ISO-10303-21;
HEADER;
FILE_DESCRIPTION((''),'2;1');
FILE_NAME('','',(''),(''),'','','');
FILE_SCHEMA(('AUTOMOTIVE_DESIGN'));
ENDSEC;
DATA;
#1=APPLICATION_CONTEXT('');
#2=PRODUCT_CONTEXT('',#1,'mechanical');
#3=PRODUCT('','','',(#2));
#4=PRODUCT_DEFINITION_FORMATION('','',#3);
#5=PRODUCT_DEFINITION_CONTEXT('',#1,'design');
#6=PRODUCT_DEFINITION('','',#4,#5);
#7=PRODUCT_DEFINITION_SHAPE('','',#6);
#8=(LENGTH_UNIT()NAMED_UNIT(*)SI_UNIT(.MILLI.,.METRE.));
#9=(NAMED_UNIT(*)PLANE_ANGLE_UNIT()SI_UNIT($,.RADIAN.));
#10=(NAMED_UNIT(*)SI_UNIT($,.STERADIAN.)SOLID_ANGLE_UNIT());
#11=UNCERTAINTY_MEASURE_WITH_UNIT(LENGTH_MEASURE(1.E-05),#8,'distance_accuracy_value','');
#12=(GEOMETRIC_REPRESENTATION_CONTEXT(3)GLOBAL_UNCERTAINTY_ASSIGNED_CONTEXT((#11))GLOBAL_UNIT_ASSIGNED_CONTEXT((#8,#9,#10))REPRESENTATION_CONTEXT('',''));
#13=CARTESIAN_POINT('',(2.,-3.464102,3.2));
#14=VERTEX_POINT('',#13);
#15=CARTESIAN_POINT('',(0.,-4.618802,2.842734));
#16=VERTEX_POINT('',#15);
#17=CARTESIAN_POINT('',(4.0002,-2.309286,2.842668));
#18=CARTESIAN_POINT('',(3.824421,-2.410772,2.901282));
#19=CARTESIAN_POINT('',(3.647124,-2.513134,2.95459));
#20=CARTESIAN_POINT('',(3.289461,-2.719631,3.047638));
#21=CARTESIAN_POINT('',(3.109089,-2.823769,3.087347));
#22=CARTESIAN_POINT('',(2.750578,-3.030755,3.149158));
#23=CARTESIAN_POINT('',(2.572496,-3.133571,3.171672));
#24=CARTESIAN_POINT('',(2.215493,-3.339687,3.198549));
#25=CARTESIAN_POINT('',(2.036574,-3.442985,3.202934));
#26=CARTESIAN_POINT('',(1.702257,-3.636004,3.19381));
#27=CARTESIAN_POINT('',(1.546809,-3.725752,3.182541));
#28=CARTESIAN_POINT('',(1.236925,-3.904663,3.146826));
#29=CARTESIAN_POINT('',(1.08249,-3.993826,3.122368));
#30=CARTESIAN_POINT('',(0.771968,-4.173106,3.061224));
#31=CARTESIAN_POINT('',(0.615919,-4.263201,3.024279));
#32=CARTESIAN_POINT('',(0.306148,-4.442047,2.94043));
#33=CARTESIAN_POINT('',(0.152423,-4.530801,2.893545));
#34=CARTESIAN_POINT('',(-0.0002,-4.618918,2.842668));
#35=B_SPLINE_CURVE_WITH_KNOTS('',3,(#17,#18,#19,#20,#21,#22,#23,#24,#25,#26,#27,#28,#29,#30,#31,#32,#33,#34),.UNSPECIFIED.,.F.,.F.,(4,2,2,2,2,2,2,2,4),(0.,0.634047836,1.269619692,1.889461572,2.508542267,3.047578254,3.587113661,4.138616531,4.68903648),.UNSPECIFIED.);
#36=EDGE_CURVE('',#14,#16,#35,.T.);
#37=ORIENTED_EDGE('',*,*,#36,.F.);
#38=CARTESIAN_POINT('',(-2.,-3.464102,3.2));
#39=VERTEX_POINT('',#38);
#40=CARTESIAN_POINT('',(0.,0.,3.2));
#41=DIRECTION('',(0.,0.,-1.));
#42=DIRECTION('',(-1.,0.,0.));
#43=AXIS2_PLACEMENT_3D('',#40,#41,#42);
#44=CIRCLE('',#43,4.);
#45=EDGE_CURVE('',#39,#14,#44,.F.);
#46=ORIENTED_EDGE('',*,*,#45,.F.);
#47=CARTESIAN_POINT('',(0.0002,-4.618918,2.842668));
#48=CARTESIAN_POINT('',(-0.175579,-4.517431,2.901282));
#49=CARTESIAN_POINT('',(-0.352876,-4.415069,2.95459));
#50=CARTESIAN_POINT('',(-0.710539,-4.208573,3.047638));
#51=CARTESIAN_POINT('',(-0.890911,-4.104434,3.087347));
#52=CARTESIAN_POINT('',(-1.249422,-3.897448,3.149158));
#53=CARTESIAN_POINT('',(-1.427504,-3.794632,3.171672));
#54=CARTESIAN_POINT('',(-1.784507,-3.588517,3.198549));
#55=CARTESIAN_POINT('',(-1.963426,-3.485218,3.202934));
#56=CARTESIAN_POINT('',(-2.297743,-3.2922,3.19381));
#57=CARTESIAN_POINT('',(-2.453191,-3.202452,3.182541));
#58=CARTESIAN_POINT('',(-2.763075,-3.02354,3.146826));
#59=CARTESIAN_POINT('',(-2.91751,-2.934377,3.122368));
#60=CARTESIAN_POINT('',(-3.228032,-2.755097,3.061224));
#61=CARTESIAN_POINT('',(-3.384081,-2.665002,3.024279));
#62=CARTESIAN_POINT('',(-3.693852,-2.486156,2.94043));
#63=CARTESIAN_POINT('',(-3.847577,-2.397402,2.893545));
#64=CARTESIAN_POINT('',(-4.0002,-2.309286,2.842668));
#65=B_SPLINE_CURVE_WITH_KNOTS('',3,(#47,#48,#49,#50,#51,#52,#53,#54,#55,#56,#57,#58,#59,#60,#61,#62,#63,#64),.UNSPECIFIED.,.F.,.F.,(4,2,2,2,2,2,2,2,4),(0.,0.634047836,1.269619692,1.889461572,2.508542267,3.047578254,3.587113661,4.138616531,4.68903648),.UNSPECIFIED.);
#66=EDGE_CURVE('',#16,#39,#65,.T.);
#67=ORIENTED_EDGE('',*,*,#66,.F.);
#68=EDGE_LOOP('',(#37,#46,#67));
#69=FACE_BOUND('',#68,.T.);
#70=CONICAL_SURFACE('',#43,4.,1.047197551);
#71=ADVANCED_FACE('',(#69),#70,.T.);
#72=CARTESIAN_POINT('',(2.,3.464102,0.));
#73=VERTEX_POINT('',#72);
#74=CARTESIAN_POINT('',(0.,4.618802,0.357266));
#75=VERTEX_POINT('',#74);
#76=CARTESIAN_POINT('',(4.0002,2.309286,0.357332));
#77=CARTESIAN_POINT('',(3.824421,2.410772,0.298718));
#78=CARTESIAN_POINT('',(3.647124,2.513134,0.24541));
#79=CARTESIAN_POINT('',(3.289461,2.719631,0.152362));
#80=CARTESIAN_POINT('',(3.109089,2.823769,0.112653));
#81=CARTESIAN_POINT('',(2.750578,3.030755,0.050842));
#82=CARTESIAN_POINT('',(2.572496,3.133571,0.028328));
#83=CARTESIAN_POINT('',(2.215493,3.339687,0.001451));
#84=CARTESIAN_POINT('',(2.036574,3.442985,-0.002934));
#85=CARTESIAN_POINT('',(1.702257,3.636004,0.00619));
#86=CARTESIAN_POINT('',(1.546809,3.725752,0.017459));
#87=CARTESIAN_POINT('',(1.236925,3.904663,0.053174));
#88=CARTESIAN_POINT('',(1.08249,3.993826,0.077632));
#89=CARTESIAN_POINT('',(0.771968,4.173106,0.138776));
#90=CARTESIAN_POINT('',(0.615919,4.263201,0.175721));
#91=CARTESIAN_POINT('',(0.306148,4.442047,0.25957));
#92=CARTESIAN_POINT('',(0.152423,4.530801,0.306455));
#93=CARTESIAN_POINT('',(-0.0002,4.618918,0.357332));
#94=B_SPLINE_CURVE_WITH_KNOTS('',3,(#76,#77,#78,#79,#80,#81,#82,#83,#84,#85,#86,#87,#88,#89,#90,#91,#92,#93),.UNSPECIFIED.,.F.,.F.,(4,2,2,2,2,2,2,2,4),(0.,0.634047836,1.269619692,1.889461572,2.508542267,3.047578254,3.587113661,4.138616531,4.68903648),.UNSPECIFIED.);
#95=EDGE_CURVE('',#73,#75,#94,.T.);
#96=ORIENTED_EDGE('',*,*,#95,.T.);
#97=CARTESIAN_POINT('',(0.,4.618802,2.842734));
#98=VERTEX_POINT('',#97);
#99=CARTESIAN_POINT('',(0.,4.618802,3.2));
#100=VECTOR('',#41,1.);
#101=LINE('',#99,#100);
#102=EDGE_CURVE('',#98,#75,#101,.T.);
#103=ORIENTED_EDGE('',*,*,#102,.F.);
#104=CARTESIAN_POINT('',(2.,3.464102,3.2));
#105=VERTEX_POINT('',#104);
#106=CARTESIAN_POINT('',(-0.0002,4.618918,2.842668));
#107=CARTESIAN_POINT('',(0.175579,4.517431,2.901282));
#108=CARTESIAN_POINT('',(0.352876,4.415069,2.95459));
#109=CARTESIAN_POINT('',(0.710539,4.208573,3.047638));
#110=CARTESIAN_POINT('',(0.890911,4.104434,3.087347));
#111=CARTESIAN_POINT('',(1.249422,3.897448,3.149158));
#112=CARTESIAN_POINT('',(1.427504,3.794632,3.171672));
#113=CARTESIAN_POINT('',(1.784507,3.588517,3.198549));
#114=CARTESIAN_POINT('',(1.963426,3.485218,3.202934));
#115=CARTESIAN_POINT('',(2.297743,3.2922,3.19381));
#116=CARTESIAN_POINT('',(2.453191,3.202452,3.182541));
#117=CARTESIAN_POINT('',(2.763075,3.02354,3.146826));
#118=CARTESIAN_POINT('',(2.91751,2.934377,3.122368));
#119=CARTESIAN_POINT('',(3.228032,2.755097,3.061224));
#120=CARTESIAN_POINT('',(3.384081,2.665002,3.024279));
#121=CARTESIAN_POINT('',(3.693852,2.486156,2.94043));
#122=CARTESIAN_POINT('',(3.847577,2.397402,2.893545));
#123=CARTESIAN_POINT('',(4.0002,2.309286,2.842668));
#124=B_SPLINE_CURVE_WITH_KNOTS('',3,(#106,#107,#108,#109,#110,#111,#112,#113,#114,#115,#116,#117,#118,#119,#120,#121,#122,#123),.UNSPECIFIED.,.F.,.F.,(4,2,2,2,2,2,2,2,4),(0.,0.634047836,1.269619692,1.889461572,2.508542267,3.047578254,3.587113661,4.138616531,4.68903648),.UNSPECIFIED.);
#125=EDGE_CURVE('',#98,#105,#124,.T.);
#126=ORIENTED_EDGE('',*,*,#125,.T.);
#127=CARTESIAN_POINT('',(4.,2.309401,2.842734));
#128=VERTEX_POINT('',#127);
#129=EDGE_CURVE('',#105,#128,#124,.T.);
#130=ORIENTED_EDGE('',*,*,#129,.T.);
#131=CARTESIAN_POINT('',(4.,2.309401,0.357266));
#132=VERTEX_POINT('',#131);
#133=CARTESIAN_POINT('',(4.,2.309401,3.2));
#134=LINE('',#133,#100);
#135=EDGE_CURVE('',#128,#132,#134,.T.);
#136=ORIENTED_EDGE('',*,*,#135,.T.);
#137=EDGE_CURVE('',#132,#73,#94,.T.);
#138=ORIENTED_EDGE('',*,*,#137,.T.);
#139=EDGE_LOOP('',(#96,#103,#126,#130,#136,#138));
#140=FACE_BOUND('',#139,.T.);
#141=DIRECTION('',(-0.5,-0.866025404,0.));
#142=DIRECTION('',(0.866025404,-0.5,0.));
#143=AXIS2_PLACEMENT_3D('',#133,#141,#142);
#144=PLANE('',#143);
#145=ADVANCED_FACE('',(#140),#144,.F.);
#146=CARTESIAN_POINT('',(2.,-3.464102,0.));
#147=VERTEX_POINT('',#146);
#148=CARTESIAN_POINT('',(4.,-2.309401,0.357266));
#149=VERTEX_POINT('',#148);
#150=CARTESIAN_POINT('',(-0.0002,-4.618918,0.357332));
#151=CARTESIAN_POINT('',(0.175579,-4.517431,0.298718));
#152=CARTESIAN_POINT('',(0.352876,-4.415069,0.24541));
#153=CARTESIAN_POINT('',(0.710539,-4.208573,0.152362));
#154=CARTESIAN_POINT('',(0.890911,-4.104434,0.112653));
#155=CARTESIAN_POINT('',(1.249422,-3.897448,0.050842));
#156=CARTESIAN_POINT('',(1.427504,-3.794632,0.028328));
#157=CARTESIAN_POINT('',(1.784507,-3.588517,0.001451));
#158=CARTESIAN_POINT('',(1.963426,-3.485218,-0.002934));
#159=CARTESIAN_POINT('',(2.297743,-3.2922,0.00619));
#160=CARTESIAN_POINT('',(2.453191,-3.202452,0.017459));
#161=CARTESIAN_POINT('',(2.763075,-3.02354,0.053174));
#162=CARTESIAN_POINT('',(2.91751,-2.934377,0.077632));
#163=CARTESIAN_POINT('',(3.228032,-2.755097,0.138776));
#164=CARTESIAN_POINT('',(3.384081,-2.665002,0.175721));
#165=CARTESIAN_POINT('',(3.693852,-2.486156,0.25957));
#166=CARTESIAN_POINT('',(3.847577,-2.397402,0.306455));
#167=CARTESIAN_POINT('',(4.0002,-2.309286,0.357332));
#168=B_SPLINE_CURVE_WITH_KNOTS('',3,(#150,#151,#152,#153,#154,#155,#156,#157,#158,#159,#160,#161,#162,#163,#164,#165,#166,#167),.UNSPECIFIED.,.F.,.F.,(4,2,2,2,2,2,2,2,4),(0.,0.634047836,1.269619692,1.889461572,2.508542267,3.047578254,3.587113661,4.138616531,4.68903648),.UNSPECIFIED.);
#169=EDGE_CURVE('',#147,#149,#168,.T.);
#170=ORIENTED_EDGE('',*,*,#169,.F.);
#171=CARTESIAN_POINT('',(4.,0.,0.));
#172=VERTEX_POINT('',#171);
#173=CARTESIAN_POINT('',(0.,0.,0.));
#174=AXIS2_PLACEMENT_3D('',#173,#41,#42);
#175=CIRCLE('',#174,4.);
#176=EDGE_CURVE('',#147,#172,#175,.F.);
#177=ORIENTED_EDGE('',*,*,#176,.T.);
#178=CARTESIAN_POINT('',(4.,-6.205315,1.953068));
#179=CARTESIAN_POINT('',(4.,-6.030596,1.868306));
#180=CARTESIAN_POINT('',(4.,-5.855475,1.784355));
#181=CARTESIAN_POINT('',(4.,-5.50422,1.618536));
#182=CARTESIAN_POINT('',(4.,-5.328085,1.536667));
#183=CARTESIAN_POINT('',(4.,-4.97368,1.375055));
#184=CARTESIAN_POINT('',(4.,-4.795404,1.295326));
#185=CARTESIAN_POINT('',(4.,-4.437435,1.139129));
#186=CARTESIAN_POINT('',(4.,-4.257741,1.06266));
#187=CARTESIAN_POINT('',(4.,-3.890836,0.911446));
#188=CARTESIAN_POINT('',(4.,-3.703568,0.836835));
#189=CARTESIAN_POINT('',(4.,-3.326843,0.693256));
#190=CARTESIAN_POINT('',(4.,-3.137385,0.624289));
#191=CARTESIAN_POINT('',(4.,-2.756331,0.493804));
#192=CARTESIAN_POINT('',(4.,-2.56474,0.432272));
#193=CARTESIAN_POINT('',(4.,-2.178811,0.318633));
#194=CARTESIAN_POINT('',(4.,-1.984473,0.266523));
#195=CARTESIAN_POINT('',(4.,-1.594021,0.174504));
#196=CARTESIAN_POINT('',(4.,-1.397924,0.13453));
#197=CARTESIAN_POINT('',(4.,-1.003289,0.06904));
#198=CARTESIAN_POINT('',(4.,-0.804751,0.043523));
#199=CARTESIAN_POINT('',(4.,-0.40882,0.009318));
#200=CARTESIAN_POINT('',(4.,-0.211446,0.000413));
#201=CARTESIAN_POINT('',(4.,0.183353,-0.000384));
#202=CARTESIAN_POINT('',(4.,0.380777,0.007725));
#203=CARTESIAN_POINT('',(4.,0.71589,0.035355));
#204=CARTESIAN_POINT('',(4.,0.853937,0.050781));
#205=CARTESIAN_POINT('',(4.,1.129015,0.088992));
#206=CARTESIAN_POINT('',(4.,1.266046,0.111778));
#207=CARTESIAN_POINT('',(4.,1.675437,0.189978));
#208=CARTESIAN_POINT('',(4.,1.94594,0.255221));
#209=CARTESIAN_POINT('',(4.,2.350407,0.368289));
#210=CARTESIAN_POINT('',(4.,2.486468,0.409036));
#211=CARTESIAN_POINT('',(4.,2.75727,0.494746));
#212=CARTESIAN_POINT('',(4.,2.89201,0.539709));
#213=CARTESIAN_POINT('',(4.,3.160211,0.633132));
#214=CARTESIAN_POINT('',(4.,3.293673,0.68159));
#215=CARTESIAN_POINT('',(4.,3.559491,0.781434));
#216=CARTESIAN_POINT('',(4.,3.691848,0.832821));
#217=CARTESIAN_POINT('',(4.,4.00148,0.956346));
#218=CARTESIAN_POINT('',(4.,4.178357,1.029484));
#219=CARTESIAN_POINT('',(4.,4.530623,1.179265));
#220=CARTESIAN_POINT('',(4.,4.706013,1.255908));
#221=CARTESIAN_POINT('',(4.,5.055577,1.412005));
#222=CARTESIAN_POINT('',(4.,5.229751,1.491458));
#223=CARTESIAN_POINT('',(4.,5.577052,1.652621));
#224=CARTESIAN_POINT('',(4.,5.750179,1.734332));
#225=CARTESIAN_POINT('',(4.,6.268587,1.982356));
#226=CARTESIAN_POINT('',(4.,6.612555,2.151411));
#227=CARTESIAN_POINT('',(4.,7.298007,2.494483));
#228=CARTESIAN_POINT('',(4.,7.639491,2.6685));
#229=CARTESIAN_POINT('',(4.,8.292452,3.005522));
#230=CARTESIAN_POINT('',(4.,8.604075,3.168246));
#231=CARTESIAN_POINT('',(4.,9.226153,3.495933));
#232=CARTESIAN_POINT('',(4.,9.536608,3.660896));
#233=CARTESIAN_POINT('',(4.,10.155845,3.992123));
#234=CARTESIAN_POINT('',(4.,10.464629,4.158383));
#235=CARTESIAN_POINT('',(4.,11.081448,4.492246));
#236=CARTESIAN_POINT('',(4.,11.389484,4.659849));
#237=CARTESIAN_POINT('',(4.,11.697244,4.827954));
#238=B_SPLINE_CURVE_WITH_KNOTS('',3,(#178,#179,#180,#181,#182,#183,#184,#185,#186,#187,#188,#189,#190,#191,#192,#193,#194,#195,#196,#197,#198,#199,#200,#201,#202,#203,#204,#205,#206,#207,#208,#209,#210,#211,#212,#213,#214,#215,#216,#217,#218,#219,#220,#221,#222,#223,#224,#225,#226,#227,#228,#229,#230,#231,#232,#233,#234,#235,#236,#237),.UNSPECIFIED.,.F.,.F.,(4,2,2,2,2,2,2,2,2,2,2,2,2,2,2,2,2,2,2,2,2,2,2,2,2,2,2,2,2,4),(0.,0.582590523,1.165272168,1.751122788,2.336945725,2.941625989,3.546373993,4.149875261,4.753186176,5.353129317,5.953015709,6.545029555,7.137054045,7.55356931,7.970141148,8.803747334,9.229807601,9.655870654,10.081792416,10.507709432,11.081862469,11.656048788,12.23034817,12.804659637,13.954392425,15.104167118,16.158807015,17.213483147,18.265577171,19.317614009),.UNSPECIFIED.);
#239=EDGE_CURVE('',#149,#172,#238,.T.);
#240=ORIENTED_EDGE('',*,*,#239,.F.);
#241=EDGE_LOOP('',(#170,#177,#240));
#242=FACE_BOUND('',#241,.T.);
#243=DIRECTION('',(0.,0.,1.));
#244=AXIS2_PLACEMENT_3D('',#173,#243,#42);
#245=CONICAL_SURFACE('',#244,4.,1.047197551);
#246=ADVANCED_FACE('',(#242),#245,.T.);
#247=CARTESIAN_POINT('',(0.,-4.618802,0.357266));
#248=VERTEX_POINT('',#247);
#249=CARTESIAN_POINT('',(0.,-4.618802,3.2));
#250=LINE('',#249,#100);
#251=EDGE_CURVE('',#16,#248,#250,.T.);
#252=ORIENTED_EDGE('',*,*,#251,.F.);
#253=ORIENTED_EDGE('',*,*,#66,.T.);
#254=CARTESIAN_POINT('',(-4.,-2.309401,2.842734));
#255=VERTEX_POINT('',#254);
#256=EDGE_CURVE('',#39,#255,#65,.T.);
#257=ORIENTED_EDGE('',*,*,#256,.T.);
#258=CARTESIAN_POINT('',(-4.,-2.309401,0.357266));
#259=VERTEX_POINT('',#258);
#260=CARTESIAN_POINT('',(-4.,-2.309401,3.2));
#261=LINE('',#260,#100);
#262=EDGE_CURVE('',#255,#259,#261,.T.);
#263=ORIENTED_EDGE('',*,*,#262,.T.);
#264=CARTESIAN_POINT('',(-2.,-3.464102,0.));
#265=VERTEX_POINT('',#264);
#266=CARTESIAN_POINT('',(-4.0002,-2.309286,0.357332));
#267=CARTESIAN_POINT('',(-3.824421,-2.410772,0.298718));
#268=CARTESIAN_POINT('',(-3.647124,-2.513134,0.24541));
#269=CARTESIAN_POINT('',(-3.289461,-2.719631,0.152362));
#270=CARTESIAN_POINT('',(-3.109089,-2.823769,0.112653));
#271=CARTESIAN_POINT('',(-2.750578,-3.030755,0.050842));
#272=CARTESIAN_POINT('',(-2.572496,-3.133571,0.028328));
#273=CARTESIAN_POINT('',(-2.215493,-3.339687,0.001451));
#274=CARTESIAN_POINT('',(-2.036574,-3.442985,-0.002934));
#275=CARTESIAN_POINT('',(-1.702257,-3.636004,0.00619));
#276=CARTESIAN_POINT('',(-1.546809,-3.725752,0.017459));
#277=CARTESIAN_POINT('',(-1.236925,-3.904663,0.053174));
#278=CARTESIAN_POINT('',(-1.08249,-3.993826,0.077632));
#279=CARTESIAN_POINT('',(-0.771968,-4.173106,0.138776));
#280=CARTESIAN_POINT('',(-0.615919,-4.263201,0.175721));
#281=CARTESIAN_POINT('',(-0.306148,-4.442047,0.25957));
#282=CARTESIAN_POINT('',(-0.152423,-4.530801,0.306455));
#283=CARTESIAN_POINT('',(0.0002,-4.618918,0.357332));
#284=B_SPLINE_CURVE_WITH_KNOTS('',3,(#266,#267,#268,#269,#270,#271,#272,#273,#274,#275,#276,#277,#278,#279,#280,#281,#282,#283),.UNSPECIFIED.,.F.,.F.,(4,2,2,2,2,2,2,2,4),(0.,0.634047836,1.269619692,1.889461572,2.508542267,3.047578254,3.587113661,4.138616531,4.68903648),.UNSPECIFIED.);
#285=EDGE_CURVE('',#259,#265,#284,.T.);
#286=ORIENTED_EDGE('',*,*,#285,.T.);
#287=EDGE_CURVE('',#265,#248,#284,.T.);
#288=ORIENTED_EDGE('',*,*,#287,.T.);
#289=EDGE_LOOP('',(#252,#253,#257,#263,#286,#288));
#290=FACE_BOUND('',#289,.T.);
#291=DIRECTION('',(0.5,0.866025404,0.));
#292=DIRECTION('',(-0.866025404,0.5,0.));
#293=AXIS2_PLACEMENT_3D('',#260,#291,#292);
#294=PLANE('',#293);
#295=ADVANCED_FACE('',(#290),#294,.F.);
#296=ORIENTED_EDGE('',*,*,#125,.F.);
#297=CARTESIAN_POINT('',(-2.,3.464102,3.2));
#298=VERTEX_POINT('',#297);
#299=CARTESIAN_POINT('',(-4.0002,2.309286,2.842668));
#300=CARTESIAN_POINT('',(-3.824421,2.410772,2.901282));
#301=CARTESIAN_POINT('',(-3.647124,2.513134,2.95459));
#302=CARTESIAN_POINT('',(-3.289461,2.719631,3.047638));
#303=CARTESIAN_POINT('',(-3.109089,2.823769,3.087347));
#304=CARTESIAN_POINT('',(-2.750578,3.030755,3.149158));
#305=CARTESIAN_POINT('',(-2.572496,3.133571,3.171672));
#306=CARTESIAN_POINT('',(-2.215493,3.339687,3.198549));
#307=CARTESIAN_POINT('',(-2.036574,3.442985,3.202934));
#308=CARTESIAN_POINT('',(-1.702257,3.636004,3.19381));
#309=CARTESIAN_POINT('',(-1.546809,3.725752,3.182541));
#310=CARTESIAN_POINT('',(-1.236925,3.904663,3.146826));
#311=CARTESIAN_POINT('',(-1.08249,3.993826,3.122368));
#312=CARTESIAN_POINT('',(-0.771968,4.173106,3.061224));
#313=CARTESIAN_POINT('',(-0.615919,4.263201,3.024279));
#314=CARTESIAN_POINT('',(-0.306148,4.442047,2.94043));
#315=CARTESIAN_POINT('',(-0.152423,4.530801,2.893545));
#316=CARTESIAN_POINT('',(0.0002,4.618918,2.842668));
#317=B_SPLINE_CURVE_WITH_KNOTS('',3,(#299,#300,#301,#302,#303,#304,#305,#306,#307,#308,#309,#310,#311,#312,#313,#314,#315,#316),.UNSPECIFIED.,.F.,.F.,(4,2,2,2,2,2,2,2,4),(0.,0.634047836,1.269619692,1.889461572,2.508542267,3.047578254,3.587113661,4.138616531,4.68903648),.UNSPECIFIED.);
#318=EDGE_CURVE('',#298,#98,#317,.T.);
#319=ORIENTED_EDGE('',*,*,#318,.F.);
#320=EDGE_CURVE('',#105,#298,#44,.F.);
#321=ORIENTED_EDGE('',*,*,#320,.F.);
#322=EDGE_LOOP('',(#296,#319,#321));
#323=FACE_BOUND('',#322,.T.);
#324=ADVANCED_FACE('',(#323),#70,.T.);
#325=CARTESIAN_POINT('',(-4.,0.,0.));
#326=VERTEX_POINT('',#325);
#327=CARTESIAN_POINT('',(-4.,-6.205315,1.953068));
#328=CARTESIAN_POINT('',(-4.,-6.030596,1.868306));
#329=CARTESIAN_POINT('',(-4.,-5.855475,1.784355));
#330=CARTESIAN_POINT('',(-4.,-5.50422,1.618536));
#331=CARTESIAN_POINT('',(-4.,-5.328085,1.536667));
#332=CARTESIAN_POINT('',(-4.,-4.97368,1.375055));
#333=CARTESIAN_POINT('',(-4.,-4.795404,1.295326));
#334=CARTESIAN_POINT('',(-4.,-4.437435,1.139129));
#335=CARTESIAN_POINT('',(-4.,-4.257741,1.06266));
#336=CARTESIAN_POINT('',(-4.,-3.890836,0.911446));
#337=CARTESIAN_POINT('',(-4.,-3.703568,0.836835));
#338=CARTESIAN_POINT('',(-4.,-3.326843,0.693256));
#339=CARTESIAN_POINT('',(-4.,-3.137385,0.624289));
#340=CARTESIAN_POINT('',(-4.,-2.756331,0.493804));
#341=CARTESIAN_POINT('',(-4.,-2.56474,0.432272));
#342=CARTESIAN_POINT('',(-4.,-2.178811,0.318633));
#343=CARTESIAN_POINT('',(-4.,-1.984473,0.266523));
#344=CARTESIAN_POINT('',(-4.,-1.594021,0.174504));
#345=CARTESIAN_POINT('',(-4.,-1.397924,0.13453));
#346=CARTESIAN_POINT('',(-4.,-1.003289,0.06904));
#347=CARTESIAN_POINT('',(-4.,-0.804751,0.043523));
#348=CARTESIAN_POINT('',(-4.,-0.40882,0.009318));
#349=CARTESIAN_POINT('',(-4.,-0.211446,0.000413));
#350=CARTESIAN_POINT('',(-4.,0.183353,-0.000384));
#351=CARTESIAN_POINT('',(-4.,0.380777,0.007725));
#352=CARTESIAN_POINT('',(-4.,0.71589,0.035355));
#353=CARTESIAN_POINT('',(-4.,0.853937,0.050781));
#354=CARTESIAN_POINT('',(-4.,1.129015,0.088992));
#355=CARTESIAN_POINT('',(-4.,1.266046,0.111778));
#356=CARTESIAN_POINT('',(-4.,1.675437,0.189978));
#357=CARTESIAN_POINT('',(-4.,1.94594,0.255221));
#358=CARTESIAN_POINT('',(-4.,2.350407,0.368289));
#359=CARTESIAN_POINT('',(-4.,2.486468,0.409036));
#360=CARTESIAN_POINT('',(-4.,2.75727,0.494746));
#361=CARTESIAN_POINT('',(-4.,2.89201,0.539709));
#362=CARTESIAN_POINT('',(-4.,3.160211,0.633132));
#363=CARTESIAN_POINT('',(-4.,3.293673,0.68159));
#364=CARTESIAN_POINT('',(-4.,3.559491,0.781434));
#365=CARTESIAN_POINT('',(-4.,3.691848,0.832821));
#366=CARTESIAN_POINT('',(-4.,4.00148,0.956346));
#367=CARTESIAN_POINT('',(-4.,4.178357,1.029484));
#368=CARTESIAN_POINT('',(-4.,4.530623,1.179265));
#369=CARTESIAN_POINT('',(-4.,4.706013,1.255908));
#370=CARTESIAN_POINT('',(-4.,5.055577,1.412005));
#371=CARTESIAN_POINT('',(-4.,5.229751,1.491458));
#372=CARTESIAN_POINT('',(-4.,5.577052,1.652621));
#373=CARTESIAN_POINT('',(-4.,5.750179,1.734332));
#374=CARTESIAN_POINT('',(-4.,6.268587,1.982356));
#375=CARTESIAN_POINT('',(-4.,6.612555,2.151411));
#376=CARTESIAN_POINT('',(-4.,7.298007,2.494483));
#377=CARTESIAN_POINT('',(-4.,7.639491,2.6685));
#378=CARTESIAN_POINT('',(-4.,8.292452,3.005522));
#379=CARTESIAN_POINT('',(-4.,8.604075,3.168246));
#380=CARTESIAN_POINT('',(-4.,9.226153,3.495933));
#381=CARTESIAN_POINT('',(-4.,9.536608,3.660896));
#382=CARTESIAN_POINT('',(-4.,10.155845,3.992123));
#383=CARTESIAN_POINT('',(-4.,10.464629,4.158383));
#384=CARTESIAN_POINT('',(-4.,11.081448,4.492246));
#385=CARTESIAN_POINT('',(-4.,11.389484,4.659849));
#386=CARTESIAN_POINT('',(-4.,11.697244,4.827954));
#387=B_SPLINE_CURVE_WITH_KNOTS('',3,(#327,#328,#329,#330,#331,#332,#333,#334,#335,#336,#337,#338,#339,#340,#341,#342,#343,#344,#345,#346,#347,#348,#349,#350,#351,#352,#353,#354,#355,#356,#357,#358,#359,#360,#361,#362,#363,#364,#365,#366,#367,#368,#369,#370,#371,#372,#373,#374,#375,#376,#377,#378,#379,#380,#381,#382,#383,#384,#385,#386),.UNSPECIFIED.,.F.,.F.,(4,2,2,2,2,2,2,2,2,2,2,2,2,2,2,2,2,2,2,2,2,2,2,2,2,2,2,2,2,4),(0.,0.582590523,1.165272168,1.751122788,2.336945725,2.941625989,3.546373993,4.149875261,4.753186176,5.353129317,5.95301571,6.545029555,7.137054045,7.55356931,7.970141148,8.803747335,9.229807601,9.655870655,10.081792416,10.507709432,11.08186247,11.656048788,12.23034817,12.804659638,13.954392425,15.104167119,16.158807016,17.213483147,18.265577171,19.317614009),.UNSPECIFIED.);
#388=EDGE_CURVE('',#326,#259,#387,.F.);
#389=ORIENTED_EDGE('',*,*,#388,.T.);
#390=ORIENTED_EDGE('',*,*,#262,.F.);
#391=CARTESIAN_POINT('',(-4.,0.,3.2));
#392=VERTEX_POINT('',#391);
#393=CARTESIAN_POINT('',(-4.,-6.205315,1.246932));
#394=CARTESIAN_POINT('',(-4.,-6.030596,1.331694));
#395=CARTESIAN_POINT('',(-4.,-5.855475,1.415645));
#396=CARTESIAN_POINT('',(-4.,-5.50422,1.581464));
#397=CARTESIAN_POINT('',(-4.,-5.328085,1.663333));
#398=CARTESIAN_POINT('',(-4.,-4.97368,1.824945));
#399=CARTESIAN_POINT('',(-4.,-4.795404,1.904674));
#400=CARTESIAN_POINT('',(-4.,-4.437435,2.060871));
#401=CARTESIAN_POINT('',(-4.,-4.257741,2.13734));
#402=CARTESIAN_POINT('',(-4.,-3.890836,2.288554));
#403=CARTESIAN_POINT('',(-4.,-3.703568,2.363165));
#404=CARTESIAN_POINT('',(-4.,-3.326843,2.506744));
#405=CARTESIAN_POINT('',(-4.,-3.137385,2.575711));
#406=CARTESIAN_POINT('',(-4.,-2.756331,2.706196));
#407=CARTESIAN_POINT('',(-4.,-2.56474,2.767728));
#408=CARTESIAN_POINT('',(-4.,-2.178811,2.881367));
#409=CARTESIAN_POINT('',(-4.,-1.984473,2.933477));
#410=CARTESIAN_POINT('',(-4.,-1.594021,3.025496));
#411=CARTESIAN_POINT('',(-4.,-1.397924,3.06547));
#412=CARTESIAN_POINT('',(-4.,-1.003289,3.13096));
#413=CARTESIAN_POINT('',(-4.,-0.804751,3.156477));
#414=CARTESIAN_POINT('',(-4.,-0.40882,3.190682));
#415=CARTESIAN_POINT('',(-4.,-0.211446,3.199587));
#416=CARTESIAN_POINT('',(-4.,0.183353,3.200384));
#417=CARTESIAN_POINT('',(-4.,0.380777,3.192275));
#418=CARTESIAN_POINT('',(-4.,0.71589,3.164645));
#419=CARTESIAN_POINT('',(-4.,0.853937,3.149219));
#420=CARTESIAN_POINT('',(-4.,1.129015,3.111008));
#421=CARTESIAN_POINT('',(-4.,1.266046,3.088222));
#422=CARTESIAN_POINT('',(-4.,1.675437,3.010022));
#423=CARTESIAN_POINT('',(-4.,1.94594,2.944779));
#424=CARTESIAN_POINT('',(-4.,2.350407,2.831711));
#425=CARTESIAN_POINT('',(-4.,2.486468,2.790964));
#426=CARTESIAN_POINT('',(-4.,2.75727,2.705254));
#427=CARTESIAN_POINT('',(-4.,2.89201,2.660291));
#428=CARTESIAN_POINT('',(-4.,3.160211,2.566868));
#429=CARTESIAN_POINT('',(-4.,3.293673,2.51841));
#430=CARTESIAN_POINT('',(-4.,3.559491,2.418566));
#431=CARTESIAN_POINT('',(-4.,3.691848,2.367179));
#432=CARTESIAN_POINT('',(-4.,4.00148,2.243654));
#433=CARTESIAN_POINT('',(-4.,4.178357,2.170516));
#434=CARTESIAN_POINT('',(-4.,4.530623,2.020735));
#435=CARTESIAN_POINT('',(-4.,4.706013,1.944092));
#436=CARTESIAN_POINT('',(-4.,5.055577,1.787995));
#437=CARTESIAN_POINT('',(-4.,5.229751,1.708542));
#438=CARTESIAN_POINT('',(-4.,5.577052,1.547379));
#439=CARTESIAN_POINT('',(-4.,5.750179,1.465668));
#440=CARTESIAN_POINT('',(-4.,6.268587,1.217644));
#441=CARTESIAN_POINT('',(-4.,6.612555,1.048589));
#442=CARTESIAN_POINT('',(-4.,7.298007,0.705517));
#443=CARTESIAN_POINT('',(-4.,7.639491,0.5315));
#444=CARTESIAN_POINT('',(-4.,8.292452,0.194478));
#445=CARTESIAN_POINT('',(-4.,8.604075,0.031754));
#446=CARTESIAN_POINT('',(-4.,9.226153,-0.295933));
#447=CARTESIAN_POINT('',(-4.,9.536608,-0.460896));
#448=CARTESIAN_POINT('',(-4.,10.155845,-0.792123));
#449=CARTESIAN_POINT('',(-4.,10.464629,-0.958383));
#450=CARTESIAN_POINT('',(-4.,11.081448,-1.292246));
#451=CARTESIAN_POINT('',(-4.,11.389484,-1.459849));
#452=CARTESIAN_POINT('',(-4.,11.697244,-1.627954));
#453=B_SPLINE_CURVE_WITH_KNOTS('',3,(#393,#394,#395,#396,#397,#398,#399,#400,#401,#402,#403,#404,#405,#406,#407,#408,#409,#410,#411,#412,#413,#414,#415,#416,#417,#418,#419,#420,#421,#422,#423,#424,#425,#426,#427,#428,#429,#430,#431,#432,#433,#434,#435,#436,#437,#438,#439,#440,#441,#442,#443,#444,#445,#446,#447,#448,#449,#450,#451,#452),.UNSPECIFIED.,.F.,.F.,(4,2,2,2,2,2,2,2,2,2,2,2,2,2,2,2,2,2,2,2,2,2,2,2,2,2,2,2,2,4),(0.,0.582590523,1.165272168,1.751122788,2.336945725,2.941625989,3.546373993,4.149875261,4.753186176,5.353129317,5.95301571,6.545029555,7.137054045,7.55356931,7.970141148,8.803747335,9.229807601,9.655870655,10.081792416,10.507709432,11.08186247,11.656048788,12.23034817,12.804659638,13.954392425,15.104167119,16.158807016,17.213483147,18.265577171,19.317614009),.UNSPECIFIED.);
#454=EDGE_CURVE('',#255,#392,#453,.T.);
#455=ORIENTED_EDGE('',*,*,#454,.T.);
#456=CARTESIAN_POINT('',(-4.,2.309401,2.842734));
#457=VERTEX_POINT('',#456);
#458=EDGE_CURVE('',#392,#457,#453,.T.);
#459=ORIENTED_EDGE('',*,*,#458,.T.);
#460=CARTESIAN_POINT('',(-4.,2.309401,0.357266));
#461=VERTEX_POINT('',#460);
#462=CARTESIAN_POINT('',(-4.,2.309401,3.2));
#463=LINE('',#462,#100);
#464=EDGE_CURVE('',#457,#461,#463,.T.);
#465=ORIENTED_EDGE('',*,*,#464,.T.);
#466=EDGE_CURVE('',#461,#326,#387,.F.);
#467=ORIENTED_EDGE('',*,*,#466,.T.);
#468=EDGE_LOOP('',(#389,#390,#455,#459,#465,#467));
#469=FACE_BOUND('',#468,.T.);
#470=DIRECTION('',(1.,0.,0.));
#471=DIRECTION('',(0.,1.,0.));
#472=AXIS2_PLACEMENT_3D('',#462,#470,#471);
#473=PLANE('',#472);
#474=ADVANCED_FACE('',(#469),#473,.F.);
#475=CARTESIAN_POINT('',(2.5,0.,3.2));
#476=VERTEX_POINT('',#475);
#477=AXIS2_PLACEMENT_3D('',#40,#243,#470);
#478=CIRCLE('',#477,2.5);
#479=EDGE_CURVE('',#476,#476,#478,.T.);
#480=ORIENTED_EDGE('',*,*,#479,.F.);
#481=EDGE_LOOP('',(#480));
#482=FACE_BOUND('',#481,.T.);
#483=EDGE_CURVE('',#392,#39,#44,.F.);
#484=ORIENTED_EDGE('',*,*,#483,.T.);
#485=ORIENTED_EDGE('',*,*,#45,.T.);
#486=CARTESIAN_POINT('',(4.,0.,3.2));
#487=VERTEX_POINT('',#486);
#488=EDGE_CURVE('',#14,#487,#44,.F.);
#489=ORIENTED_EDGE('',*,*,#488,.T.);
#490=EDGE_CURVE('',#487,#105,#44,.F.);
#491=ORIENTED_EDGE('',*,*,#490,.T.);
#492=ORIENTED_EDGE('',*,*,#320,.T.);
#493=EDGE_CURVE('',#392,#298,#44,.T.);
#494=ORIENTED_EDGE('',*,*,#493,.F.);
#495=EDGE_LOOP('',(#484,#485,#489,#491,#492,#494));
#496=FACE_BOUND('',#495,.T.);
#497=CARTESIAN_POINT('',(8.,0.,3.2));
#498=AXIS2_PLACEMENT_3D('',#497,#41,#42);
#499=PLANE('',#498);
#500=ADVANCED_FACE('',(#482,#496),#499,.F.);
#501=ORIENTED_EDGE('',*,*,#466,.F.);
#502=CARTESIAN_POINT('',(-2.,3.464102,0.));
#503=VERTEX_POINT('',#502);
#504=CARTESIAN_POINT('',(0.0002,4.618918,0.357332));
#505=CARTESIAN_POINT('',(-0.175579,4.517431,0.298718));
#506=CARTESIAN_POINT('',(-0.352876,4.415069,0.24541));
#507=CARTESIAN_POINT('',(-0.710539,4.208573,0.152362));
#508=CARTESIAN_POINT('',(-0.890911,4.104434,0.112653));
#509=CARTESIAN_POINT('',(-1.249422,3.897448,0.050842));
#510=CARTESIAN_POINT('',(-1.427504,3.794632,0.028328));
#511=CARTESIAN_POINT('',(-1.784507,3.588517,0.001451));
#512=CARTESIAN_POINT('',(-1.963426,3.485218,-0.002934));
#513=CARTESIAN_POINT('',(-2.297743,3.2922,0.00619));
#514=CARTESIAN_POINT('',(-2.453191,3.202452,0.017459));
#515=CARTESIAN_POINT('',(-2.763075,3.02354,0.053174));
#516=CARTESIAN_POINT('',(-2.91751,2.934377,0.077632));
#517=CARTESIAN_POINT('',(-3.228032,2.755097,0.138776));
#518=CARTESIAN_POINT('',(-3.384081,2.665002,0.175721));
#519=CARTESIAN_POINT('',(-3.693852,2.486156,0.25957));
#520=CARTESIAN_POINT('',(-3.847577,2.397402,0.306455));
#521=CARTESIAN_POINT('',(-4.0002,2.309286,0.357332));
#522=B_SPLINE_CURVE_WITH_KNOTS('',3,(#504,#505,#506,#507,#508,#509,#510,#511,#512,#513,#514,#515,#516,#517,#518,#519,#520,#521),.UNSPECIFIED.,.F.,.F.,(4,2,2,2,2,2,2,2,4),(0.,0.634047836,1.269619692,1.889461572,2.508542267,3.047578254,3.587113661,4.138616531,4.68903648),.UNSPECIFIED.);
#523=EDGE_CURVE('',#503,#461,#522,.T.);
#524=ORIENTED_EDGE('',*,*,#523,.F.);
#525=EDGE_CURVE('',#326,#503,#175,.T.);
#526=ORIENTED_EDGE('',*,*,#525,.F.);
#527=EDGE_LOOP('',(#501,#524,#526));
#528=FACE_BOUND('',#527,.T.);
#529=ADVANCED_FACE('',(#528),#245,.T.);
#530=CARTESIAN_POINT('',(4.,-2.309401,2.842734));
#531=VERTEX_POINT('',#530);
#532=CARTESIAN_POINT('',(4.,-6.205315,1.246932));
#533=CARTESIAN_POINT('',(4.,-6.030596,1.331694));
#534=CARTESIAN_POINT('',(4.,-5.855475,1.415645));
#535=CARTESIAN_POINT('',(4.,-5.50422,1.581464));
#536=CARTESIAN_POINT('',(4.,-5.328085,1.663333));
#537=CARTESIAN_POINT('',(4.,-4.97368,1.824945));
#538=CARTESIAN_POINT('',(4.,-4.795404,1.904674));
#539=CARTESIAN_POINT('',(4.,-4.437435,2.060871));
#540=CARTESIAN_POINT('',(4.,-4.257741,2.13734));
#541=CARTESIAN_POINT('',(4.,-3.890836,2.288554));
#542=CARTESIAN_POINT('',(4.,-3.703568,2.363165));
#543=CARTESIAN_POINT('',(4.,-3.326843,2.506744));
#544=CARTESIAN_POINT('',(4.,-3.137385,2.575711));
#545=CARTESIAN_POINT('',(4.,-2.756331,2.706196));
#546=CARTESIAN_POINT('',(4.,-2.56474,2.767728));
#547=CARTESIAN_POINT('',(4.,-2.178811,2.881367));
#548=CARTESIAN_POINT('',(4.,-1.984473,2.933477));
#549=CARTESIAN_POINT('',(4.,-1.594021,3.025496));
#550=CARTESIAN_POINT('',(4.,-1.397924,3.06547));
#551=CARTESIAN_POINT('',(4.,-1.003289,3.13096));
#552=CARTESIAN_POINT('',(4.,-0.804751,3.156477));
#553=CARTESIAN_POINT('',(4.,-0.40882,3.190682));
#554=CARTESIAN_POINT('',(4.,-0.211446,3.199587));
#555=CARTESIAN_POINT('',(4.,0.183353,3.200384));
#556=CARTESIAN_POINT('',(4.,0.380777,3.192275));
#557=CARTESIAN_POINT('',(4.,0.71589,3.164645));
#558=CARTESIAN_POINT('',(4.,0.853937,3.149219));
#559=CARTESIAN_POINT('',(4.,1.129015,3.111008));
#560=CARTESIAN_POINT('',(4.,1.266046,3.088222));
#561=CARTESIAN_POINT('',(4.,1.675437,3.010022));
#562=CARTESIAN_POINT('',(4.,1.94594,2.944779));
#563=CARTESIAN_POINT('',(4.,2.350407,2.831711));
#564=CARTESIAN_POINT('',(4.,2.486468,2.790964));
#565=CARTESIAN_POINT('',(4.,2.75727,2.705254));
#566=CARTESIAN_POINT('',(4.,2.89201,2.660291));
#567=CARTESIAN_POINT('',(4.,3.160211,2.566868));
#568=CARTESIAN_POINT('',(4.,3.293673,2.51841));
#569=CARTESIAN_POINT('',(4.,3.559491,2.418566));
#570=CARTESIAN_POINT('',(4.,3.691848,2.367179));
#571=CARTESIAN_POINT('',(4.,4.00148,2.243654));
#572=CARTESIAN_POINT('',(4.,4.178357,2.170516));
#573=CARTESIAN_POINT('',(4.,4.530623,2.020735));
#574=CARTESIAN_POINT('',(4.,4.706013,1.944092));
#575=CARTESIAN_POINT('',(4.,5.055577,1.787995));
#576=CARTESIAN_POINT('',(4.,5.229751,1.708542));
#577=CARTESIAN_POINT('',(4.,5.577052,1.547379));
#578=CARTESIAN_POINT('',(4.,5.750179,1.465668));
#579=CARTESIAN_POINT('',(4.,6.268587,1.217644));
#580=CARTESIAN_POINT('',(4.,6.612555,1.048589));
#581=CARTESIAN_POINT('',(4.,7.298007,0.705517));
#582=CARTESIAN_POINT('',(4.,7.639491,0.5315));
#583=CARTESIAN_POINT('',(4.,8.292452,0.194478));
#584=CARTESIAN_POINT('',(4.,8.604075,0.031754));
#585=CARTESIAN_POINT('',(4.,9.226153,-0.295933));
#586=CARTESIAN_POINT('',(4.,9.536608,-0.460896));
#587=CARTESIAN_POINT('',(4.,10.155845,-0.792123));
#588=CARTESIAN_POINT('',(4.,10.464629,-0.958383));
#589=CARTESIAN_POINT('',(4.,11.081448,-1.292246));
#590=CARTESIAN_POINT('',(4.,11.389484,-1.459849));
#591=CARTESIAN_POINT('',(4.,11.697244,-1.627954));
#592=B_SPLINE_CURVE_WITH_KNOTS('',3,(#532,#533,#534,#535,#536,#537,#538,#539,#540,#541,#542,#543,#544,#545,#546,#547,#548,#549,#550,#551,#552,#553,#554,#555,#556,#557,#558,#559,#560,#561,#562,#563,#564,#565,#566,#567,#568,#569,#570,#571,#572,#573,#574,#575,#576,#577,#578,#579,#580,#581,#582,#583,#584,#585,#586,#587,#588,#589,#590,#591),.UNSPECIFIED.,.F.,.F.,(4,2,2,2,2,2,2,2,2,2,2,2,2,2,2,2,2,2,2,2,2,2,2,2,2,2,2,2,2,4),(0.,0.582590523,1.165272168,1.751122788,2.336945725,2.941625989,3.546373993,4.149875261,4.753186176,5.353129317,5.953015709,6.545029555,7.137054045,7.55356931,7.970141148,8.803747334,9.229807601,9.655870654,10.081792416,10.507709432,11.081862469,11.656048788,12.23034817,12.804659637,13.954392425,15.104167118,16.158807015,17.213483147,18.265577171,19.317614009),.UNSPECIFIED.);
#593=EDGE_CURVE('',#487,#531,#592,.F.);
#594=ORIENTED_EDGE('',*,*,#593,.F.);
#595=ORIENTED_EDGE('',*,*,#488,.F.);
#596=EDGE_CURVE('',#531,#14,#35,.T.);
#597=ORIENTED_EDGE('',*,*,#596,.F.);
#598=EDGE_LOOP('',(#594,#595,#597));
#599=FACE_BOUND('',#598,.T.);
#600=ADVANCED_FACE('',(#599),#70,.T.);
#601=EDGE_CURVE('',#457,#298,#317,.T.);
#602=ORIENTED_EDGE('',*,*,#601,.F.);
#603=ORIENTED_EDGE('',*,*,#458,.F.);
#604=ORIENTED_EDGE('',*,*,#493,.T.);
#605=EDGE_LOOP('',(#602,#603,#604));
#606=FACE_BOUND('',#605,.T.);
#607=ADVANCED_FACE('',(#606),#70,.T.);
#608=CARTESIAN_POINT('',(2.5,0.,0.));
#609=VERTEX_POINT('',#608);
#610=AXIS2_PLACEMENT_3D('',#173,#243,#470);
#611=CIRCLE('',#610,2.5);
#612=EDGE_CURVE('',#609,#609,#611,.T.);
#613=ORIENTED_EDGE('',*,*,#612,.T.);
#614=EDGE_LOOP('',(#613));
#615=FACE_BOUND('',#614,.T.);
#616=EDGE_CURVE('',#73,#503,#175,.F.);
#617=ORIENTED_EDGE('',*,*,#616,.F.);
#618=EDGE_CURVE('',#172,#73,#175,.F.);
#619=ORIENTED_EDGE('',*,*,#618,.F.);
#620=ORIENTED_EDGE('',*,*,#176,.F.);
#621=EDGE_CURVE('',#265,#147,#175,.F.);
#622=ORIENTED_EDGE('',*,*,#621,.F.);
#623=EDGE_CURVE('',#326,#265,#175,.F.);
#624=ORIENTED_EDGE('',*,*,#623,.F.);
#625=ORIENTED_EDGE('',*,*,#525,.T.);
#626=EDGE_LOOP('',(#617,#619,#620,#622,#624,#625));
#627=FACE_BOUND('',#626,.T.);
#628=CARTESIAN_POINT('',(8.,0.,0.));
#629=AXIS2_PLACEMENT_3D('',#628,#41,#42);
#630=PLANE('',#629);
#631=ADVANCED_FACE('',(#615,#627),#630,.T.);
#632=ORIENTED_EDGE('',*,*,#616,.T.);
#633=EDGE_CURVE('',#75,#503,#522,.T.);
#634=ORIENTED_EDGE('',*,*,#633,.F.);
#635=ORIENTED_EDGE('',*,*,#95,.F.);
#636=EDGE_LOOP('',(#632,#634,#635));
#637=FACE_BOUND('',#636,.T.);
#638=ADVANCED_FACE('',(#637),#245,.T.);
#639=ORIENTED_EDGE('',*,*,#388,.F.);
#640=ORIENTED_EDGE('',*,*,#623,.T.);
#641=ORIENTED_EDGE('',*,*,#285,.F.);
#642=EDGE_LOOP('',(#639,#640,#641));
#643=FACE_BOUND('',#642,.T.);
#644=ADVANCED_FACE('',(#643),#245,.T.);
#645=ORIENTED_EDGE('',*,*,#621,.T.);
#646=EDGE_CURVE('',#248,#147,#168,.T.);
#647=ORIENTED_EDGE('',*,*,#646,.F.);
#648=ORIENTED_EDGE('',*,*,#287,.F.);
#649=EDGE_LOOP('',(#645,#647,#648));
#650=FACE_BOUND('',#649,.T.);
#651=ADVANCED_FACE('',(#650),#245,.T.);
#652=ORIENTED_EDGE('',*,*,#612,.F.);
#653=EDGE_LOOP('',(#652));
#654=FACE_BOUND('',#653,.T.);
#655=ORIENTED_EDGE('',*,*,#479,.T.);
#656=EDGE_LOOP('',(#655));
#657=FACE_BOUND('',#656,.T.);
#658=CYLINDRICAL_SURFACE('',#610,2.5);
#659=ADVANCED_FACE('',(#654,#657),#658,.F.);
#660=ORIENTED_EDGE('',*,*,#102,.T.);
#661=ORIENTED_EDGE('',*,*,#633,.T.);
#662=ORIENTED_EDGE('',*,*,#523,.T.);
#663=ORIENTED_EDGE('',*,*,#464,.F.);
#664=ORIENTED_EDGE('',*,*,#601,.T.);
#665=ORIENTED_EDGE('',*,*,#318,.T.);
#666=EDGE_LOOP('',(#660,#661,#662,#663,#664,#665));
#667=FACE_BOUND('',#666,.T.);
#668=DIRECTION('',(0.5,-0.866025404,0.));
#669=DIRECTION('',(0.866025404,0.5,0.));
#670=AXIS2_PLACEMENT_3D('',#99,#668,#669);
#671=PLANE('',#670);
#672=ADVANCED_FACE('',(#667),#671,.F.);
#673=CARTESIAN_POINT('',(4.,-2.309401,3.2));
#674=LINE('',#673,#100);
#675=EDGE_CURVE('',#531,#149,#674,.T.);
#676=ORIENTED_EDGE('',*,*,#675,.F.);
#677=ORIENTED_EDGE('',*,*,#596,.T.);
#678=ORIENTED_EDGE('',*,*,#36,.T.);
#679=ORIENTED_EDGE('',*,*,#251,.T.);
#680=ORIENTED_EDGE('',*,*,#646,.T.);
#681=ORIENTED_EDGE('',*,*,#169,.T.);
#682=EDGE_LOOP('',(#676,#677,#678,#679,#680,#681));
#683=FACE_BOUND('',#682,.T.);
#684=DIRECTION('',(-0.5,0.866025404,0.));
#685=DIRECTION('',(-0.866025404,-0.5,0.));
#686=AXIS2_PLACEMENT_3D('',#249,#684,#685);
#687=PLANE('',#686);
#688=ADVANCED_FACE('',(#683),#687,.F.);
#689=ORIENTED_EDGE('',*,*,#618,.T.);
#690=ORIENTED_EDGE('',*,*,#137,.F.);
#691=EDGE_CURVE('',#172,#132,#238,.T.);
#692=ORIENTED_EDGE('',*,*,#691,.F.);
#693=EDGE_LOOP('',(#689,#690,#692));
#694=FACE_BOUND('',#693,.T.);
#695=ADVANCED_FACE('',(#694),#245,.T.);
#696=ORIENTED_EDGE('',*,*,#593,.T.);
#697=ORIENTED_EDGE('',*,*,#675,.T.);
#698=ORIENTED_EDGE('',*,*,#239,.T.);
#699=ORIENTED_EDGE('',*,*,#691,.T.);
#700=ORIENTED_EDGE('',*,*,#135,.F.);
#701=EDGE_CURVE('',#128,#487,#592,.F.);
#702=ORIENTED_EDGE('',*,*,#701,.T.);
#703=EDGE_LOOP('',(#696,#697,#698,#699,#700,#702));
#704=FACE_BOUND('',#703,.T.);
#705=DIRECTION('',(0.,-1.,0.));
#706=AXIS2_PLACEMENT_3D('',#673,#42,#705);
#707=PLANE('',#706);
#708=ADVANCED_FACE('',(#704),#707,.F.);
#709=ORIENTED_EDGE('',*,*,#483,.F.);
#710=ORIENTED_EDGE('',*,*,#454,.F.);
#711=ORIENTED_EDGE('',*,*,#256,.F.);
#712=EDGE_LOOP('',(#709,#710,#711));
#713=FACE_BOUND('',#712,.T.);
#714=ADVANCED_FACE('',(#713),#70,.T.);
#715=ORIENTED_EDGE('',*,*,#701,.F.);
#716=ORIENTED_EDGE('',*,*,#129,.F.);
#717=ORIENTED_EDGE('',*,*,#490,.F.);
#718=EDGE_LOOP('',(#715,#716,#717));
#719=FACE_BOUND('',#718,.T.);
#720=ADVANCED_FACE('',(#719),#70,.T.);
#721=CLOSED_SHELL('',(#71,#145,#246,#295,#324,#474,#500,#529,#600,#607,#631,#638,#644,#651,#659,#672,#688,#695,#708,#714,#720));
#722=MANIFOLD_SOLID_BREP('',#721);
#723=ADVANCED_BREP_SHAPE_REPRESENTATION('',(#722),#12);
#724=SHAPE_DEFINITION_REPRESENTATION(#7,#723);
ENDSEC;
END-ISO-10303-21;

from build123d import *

# Parameters (mm, degrees)
EXTRUDE1_DEPTH     = 3.2
SKETCH2_R          = 2.5
CUT_EXTRUDE1_DEPTH = 4.2


with BuildPart() as part:
    # Sketch1 → Extrude1 (new body)
    with BuildSketch(Plane.XY):
        Polygon((0, 4.618802154), (-4, 2.309401077), (-4, -2.309401077), (0, -4.618802154), (4, -2.309401077), (4, 2.309401077), align=None)
    extrude(amount=EXTRUDE1_DEPTH)

    # Sketch2 → Cut-Extrude1 (cut, through all)
    with BuildSketch(Plane.XY.offset(3.2)):
        Circle(SKETCH2_R)
    extrude(amount=-CUT_EXTRUDE1_DEPTH, mode=Mode.SUBTRACT)

    # Sketch3 → Cut-Revolve1 (revolve, cut)
    with BuildSketch(Plane(origin=(0, 0, 0), x_dir=(0, 0, -1), z_dir=(1, 0, 0))):
        Polygon((-3.2, 5.618802154), (-2.265384141, 5.618802154), (-3.2, 4), align=None)
    cut_revolve1 = revolve(axis=Axis((0, 0, 0), (0, 0, 1)), mode=Mode.SUBTRACT)

    # Mirror1: Cut-Revolve1 across plane
    add(cut_revolve1.mirror(Plane.XY.offset(1.6)), mode=Mode.SUBTRACT)


solid = part.part
